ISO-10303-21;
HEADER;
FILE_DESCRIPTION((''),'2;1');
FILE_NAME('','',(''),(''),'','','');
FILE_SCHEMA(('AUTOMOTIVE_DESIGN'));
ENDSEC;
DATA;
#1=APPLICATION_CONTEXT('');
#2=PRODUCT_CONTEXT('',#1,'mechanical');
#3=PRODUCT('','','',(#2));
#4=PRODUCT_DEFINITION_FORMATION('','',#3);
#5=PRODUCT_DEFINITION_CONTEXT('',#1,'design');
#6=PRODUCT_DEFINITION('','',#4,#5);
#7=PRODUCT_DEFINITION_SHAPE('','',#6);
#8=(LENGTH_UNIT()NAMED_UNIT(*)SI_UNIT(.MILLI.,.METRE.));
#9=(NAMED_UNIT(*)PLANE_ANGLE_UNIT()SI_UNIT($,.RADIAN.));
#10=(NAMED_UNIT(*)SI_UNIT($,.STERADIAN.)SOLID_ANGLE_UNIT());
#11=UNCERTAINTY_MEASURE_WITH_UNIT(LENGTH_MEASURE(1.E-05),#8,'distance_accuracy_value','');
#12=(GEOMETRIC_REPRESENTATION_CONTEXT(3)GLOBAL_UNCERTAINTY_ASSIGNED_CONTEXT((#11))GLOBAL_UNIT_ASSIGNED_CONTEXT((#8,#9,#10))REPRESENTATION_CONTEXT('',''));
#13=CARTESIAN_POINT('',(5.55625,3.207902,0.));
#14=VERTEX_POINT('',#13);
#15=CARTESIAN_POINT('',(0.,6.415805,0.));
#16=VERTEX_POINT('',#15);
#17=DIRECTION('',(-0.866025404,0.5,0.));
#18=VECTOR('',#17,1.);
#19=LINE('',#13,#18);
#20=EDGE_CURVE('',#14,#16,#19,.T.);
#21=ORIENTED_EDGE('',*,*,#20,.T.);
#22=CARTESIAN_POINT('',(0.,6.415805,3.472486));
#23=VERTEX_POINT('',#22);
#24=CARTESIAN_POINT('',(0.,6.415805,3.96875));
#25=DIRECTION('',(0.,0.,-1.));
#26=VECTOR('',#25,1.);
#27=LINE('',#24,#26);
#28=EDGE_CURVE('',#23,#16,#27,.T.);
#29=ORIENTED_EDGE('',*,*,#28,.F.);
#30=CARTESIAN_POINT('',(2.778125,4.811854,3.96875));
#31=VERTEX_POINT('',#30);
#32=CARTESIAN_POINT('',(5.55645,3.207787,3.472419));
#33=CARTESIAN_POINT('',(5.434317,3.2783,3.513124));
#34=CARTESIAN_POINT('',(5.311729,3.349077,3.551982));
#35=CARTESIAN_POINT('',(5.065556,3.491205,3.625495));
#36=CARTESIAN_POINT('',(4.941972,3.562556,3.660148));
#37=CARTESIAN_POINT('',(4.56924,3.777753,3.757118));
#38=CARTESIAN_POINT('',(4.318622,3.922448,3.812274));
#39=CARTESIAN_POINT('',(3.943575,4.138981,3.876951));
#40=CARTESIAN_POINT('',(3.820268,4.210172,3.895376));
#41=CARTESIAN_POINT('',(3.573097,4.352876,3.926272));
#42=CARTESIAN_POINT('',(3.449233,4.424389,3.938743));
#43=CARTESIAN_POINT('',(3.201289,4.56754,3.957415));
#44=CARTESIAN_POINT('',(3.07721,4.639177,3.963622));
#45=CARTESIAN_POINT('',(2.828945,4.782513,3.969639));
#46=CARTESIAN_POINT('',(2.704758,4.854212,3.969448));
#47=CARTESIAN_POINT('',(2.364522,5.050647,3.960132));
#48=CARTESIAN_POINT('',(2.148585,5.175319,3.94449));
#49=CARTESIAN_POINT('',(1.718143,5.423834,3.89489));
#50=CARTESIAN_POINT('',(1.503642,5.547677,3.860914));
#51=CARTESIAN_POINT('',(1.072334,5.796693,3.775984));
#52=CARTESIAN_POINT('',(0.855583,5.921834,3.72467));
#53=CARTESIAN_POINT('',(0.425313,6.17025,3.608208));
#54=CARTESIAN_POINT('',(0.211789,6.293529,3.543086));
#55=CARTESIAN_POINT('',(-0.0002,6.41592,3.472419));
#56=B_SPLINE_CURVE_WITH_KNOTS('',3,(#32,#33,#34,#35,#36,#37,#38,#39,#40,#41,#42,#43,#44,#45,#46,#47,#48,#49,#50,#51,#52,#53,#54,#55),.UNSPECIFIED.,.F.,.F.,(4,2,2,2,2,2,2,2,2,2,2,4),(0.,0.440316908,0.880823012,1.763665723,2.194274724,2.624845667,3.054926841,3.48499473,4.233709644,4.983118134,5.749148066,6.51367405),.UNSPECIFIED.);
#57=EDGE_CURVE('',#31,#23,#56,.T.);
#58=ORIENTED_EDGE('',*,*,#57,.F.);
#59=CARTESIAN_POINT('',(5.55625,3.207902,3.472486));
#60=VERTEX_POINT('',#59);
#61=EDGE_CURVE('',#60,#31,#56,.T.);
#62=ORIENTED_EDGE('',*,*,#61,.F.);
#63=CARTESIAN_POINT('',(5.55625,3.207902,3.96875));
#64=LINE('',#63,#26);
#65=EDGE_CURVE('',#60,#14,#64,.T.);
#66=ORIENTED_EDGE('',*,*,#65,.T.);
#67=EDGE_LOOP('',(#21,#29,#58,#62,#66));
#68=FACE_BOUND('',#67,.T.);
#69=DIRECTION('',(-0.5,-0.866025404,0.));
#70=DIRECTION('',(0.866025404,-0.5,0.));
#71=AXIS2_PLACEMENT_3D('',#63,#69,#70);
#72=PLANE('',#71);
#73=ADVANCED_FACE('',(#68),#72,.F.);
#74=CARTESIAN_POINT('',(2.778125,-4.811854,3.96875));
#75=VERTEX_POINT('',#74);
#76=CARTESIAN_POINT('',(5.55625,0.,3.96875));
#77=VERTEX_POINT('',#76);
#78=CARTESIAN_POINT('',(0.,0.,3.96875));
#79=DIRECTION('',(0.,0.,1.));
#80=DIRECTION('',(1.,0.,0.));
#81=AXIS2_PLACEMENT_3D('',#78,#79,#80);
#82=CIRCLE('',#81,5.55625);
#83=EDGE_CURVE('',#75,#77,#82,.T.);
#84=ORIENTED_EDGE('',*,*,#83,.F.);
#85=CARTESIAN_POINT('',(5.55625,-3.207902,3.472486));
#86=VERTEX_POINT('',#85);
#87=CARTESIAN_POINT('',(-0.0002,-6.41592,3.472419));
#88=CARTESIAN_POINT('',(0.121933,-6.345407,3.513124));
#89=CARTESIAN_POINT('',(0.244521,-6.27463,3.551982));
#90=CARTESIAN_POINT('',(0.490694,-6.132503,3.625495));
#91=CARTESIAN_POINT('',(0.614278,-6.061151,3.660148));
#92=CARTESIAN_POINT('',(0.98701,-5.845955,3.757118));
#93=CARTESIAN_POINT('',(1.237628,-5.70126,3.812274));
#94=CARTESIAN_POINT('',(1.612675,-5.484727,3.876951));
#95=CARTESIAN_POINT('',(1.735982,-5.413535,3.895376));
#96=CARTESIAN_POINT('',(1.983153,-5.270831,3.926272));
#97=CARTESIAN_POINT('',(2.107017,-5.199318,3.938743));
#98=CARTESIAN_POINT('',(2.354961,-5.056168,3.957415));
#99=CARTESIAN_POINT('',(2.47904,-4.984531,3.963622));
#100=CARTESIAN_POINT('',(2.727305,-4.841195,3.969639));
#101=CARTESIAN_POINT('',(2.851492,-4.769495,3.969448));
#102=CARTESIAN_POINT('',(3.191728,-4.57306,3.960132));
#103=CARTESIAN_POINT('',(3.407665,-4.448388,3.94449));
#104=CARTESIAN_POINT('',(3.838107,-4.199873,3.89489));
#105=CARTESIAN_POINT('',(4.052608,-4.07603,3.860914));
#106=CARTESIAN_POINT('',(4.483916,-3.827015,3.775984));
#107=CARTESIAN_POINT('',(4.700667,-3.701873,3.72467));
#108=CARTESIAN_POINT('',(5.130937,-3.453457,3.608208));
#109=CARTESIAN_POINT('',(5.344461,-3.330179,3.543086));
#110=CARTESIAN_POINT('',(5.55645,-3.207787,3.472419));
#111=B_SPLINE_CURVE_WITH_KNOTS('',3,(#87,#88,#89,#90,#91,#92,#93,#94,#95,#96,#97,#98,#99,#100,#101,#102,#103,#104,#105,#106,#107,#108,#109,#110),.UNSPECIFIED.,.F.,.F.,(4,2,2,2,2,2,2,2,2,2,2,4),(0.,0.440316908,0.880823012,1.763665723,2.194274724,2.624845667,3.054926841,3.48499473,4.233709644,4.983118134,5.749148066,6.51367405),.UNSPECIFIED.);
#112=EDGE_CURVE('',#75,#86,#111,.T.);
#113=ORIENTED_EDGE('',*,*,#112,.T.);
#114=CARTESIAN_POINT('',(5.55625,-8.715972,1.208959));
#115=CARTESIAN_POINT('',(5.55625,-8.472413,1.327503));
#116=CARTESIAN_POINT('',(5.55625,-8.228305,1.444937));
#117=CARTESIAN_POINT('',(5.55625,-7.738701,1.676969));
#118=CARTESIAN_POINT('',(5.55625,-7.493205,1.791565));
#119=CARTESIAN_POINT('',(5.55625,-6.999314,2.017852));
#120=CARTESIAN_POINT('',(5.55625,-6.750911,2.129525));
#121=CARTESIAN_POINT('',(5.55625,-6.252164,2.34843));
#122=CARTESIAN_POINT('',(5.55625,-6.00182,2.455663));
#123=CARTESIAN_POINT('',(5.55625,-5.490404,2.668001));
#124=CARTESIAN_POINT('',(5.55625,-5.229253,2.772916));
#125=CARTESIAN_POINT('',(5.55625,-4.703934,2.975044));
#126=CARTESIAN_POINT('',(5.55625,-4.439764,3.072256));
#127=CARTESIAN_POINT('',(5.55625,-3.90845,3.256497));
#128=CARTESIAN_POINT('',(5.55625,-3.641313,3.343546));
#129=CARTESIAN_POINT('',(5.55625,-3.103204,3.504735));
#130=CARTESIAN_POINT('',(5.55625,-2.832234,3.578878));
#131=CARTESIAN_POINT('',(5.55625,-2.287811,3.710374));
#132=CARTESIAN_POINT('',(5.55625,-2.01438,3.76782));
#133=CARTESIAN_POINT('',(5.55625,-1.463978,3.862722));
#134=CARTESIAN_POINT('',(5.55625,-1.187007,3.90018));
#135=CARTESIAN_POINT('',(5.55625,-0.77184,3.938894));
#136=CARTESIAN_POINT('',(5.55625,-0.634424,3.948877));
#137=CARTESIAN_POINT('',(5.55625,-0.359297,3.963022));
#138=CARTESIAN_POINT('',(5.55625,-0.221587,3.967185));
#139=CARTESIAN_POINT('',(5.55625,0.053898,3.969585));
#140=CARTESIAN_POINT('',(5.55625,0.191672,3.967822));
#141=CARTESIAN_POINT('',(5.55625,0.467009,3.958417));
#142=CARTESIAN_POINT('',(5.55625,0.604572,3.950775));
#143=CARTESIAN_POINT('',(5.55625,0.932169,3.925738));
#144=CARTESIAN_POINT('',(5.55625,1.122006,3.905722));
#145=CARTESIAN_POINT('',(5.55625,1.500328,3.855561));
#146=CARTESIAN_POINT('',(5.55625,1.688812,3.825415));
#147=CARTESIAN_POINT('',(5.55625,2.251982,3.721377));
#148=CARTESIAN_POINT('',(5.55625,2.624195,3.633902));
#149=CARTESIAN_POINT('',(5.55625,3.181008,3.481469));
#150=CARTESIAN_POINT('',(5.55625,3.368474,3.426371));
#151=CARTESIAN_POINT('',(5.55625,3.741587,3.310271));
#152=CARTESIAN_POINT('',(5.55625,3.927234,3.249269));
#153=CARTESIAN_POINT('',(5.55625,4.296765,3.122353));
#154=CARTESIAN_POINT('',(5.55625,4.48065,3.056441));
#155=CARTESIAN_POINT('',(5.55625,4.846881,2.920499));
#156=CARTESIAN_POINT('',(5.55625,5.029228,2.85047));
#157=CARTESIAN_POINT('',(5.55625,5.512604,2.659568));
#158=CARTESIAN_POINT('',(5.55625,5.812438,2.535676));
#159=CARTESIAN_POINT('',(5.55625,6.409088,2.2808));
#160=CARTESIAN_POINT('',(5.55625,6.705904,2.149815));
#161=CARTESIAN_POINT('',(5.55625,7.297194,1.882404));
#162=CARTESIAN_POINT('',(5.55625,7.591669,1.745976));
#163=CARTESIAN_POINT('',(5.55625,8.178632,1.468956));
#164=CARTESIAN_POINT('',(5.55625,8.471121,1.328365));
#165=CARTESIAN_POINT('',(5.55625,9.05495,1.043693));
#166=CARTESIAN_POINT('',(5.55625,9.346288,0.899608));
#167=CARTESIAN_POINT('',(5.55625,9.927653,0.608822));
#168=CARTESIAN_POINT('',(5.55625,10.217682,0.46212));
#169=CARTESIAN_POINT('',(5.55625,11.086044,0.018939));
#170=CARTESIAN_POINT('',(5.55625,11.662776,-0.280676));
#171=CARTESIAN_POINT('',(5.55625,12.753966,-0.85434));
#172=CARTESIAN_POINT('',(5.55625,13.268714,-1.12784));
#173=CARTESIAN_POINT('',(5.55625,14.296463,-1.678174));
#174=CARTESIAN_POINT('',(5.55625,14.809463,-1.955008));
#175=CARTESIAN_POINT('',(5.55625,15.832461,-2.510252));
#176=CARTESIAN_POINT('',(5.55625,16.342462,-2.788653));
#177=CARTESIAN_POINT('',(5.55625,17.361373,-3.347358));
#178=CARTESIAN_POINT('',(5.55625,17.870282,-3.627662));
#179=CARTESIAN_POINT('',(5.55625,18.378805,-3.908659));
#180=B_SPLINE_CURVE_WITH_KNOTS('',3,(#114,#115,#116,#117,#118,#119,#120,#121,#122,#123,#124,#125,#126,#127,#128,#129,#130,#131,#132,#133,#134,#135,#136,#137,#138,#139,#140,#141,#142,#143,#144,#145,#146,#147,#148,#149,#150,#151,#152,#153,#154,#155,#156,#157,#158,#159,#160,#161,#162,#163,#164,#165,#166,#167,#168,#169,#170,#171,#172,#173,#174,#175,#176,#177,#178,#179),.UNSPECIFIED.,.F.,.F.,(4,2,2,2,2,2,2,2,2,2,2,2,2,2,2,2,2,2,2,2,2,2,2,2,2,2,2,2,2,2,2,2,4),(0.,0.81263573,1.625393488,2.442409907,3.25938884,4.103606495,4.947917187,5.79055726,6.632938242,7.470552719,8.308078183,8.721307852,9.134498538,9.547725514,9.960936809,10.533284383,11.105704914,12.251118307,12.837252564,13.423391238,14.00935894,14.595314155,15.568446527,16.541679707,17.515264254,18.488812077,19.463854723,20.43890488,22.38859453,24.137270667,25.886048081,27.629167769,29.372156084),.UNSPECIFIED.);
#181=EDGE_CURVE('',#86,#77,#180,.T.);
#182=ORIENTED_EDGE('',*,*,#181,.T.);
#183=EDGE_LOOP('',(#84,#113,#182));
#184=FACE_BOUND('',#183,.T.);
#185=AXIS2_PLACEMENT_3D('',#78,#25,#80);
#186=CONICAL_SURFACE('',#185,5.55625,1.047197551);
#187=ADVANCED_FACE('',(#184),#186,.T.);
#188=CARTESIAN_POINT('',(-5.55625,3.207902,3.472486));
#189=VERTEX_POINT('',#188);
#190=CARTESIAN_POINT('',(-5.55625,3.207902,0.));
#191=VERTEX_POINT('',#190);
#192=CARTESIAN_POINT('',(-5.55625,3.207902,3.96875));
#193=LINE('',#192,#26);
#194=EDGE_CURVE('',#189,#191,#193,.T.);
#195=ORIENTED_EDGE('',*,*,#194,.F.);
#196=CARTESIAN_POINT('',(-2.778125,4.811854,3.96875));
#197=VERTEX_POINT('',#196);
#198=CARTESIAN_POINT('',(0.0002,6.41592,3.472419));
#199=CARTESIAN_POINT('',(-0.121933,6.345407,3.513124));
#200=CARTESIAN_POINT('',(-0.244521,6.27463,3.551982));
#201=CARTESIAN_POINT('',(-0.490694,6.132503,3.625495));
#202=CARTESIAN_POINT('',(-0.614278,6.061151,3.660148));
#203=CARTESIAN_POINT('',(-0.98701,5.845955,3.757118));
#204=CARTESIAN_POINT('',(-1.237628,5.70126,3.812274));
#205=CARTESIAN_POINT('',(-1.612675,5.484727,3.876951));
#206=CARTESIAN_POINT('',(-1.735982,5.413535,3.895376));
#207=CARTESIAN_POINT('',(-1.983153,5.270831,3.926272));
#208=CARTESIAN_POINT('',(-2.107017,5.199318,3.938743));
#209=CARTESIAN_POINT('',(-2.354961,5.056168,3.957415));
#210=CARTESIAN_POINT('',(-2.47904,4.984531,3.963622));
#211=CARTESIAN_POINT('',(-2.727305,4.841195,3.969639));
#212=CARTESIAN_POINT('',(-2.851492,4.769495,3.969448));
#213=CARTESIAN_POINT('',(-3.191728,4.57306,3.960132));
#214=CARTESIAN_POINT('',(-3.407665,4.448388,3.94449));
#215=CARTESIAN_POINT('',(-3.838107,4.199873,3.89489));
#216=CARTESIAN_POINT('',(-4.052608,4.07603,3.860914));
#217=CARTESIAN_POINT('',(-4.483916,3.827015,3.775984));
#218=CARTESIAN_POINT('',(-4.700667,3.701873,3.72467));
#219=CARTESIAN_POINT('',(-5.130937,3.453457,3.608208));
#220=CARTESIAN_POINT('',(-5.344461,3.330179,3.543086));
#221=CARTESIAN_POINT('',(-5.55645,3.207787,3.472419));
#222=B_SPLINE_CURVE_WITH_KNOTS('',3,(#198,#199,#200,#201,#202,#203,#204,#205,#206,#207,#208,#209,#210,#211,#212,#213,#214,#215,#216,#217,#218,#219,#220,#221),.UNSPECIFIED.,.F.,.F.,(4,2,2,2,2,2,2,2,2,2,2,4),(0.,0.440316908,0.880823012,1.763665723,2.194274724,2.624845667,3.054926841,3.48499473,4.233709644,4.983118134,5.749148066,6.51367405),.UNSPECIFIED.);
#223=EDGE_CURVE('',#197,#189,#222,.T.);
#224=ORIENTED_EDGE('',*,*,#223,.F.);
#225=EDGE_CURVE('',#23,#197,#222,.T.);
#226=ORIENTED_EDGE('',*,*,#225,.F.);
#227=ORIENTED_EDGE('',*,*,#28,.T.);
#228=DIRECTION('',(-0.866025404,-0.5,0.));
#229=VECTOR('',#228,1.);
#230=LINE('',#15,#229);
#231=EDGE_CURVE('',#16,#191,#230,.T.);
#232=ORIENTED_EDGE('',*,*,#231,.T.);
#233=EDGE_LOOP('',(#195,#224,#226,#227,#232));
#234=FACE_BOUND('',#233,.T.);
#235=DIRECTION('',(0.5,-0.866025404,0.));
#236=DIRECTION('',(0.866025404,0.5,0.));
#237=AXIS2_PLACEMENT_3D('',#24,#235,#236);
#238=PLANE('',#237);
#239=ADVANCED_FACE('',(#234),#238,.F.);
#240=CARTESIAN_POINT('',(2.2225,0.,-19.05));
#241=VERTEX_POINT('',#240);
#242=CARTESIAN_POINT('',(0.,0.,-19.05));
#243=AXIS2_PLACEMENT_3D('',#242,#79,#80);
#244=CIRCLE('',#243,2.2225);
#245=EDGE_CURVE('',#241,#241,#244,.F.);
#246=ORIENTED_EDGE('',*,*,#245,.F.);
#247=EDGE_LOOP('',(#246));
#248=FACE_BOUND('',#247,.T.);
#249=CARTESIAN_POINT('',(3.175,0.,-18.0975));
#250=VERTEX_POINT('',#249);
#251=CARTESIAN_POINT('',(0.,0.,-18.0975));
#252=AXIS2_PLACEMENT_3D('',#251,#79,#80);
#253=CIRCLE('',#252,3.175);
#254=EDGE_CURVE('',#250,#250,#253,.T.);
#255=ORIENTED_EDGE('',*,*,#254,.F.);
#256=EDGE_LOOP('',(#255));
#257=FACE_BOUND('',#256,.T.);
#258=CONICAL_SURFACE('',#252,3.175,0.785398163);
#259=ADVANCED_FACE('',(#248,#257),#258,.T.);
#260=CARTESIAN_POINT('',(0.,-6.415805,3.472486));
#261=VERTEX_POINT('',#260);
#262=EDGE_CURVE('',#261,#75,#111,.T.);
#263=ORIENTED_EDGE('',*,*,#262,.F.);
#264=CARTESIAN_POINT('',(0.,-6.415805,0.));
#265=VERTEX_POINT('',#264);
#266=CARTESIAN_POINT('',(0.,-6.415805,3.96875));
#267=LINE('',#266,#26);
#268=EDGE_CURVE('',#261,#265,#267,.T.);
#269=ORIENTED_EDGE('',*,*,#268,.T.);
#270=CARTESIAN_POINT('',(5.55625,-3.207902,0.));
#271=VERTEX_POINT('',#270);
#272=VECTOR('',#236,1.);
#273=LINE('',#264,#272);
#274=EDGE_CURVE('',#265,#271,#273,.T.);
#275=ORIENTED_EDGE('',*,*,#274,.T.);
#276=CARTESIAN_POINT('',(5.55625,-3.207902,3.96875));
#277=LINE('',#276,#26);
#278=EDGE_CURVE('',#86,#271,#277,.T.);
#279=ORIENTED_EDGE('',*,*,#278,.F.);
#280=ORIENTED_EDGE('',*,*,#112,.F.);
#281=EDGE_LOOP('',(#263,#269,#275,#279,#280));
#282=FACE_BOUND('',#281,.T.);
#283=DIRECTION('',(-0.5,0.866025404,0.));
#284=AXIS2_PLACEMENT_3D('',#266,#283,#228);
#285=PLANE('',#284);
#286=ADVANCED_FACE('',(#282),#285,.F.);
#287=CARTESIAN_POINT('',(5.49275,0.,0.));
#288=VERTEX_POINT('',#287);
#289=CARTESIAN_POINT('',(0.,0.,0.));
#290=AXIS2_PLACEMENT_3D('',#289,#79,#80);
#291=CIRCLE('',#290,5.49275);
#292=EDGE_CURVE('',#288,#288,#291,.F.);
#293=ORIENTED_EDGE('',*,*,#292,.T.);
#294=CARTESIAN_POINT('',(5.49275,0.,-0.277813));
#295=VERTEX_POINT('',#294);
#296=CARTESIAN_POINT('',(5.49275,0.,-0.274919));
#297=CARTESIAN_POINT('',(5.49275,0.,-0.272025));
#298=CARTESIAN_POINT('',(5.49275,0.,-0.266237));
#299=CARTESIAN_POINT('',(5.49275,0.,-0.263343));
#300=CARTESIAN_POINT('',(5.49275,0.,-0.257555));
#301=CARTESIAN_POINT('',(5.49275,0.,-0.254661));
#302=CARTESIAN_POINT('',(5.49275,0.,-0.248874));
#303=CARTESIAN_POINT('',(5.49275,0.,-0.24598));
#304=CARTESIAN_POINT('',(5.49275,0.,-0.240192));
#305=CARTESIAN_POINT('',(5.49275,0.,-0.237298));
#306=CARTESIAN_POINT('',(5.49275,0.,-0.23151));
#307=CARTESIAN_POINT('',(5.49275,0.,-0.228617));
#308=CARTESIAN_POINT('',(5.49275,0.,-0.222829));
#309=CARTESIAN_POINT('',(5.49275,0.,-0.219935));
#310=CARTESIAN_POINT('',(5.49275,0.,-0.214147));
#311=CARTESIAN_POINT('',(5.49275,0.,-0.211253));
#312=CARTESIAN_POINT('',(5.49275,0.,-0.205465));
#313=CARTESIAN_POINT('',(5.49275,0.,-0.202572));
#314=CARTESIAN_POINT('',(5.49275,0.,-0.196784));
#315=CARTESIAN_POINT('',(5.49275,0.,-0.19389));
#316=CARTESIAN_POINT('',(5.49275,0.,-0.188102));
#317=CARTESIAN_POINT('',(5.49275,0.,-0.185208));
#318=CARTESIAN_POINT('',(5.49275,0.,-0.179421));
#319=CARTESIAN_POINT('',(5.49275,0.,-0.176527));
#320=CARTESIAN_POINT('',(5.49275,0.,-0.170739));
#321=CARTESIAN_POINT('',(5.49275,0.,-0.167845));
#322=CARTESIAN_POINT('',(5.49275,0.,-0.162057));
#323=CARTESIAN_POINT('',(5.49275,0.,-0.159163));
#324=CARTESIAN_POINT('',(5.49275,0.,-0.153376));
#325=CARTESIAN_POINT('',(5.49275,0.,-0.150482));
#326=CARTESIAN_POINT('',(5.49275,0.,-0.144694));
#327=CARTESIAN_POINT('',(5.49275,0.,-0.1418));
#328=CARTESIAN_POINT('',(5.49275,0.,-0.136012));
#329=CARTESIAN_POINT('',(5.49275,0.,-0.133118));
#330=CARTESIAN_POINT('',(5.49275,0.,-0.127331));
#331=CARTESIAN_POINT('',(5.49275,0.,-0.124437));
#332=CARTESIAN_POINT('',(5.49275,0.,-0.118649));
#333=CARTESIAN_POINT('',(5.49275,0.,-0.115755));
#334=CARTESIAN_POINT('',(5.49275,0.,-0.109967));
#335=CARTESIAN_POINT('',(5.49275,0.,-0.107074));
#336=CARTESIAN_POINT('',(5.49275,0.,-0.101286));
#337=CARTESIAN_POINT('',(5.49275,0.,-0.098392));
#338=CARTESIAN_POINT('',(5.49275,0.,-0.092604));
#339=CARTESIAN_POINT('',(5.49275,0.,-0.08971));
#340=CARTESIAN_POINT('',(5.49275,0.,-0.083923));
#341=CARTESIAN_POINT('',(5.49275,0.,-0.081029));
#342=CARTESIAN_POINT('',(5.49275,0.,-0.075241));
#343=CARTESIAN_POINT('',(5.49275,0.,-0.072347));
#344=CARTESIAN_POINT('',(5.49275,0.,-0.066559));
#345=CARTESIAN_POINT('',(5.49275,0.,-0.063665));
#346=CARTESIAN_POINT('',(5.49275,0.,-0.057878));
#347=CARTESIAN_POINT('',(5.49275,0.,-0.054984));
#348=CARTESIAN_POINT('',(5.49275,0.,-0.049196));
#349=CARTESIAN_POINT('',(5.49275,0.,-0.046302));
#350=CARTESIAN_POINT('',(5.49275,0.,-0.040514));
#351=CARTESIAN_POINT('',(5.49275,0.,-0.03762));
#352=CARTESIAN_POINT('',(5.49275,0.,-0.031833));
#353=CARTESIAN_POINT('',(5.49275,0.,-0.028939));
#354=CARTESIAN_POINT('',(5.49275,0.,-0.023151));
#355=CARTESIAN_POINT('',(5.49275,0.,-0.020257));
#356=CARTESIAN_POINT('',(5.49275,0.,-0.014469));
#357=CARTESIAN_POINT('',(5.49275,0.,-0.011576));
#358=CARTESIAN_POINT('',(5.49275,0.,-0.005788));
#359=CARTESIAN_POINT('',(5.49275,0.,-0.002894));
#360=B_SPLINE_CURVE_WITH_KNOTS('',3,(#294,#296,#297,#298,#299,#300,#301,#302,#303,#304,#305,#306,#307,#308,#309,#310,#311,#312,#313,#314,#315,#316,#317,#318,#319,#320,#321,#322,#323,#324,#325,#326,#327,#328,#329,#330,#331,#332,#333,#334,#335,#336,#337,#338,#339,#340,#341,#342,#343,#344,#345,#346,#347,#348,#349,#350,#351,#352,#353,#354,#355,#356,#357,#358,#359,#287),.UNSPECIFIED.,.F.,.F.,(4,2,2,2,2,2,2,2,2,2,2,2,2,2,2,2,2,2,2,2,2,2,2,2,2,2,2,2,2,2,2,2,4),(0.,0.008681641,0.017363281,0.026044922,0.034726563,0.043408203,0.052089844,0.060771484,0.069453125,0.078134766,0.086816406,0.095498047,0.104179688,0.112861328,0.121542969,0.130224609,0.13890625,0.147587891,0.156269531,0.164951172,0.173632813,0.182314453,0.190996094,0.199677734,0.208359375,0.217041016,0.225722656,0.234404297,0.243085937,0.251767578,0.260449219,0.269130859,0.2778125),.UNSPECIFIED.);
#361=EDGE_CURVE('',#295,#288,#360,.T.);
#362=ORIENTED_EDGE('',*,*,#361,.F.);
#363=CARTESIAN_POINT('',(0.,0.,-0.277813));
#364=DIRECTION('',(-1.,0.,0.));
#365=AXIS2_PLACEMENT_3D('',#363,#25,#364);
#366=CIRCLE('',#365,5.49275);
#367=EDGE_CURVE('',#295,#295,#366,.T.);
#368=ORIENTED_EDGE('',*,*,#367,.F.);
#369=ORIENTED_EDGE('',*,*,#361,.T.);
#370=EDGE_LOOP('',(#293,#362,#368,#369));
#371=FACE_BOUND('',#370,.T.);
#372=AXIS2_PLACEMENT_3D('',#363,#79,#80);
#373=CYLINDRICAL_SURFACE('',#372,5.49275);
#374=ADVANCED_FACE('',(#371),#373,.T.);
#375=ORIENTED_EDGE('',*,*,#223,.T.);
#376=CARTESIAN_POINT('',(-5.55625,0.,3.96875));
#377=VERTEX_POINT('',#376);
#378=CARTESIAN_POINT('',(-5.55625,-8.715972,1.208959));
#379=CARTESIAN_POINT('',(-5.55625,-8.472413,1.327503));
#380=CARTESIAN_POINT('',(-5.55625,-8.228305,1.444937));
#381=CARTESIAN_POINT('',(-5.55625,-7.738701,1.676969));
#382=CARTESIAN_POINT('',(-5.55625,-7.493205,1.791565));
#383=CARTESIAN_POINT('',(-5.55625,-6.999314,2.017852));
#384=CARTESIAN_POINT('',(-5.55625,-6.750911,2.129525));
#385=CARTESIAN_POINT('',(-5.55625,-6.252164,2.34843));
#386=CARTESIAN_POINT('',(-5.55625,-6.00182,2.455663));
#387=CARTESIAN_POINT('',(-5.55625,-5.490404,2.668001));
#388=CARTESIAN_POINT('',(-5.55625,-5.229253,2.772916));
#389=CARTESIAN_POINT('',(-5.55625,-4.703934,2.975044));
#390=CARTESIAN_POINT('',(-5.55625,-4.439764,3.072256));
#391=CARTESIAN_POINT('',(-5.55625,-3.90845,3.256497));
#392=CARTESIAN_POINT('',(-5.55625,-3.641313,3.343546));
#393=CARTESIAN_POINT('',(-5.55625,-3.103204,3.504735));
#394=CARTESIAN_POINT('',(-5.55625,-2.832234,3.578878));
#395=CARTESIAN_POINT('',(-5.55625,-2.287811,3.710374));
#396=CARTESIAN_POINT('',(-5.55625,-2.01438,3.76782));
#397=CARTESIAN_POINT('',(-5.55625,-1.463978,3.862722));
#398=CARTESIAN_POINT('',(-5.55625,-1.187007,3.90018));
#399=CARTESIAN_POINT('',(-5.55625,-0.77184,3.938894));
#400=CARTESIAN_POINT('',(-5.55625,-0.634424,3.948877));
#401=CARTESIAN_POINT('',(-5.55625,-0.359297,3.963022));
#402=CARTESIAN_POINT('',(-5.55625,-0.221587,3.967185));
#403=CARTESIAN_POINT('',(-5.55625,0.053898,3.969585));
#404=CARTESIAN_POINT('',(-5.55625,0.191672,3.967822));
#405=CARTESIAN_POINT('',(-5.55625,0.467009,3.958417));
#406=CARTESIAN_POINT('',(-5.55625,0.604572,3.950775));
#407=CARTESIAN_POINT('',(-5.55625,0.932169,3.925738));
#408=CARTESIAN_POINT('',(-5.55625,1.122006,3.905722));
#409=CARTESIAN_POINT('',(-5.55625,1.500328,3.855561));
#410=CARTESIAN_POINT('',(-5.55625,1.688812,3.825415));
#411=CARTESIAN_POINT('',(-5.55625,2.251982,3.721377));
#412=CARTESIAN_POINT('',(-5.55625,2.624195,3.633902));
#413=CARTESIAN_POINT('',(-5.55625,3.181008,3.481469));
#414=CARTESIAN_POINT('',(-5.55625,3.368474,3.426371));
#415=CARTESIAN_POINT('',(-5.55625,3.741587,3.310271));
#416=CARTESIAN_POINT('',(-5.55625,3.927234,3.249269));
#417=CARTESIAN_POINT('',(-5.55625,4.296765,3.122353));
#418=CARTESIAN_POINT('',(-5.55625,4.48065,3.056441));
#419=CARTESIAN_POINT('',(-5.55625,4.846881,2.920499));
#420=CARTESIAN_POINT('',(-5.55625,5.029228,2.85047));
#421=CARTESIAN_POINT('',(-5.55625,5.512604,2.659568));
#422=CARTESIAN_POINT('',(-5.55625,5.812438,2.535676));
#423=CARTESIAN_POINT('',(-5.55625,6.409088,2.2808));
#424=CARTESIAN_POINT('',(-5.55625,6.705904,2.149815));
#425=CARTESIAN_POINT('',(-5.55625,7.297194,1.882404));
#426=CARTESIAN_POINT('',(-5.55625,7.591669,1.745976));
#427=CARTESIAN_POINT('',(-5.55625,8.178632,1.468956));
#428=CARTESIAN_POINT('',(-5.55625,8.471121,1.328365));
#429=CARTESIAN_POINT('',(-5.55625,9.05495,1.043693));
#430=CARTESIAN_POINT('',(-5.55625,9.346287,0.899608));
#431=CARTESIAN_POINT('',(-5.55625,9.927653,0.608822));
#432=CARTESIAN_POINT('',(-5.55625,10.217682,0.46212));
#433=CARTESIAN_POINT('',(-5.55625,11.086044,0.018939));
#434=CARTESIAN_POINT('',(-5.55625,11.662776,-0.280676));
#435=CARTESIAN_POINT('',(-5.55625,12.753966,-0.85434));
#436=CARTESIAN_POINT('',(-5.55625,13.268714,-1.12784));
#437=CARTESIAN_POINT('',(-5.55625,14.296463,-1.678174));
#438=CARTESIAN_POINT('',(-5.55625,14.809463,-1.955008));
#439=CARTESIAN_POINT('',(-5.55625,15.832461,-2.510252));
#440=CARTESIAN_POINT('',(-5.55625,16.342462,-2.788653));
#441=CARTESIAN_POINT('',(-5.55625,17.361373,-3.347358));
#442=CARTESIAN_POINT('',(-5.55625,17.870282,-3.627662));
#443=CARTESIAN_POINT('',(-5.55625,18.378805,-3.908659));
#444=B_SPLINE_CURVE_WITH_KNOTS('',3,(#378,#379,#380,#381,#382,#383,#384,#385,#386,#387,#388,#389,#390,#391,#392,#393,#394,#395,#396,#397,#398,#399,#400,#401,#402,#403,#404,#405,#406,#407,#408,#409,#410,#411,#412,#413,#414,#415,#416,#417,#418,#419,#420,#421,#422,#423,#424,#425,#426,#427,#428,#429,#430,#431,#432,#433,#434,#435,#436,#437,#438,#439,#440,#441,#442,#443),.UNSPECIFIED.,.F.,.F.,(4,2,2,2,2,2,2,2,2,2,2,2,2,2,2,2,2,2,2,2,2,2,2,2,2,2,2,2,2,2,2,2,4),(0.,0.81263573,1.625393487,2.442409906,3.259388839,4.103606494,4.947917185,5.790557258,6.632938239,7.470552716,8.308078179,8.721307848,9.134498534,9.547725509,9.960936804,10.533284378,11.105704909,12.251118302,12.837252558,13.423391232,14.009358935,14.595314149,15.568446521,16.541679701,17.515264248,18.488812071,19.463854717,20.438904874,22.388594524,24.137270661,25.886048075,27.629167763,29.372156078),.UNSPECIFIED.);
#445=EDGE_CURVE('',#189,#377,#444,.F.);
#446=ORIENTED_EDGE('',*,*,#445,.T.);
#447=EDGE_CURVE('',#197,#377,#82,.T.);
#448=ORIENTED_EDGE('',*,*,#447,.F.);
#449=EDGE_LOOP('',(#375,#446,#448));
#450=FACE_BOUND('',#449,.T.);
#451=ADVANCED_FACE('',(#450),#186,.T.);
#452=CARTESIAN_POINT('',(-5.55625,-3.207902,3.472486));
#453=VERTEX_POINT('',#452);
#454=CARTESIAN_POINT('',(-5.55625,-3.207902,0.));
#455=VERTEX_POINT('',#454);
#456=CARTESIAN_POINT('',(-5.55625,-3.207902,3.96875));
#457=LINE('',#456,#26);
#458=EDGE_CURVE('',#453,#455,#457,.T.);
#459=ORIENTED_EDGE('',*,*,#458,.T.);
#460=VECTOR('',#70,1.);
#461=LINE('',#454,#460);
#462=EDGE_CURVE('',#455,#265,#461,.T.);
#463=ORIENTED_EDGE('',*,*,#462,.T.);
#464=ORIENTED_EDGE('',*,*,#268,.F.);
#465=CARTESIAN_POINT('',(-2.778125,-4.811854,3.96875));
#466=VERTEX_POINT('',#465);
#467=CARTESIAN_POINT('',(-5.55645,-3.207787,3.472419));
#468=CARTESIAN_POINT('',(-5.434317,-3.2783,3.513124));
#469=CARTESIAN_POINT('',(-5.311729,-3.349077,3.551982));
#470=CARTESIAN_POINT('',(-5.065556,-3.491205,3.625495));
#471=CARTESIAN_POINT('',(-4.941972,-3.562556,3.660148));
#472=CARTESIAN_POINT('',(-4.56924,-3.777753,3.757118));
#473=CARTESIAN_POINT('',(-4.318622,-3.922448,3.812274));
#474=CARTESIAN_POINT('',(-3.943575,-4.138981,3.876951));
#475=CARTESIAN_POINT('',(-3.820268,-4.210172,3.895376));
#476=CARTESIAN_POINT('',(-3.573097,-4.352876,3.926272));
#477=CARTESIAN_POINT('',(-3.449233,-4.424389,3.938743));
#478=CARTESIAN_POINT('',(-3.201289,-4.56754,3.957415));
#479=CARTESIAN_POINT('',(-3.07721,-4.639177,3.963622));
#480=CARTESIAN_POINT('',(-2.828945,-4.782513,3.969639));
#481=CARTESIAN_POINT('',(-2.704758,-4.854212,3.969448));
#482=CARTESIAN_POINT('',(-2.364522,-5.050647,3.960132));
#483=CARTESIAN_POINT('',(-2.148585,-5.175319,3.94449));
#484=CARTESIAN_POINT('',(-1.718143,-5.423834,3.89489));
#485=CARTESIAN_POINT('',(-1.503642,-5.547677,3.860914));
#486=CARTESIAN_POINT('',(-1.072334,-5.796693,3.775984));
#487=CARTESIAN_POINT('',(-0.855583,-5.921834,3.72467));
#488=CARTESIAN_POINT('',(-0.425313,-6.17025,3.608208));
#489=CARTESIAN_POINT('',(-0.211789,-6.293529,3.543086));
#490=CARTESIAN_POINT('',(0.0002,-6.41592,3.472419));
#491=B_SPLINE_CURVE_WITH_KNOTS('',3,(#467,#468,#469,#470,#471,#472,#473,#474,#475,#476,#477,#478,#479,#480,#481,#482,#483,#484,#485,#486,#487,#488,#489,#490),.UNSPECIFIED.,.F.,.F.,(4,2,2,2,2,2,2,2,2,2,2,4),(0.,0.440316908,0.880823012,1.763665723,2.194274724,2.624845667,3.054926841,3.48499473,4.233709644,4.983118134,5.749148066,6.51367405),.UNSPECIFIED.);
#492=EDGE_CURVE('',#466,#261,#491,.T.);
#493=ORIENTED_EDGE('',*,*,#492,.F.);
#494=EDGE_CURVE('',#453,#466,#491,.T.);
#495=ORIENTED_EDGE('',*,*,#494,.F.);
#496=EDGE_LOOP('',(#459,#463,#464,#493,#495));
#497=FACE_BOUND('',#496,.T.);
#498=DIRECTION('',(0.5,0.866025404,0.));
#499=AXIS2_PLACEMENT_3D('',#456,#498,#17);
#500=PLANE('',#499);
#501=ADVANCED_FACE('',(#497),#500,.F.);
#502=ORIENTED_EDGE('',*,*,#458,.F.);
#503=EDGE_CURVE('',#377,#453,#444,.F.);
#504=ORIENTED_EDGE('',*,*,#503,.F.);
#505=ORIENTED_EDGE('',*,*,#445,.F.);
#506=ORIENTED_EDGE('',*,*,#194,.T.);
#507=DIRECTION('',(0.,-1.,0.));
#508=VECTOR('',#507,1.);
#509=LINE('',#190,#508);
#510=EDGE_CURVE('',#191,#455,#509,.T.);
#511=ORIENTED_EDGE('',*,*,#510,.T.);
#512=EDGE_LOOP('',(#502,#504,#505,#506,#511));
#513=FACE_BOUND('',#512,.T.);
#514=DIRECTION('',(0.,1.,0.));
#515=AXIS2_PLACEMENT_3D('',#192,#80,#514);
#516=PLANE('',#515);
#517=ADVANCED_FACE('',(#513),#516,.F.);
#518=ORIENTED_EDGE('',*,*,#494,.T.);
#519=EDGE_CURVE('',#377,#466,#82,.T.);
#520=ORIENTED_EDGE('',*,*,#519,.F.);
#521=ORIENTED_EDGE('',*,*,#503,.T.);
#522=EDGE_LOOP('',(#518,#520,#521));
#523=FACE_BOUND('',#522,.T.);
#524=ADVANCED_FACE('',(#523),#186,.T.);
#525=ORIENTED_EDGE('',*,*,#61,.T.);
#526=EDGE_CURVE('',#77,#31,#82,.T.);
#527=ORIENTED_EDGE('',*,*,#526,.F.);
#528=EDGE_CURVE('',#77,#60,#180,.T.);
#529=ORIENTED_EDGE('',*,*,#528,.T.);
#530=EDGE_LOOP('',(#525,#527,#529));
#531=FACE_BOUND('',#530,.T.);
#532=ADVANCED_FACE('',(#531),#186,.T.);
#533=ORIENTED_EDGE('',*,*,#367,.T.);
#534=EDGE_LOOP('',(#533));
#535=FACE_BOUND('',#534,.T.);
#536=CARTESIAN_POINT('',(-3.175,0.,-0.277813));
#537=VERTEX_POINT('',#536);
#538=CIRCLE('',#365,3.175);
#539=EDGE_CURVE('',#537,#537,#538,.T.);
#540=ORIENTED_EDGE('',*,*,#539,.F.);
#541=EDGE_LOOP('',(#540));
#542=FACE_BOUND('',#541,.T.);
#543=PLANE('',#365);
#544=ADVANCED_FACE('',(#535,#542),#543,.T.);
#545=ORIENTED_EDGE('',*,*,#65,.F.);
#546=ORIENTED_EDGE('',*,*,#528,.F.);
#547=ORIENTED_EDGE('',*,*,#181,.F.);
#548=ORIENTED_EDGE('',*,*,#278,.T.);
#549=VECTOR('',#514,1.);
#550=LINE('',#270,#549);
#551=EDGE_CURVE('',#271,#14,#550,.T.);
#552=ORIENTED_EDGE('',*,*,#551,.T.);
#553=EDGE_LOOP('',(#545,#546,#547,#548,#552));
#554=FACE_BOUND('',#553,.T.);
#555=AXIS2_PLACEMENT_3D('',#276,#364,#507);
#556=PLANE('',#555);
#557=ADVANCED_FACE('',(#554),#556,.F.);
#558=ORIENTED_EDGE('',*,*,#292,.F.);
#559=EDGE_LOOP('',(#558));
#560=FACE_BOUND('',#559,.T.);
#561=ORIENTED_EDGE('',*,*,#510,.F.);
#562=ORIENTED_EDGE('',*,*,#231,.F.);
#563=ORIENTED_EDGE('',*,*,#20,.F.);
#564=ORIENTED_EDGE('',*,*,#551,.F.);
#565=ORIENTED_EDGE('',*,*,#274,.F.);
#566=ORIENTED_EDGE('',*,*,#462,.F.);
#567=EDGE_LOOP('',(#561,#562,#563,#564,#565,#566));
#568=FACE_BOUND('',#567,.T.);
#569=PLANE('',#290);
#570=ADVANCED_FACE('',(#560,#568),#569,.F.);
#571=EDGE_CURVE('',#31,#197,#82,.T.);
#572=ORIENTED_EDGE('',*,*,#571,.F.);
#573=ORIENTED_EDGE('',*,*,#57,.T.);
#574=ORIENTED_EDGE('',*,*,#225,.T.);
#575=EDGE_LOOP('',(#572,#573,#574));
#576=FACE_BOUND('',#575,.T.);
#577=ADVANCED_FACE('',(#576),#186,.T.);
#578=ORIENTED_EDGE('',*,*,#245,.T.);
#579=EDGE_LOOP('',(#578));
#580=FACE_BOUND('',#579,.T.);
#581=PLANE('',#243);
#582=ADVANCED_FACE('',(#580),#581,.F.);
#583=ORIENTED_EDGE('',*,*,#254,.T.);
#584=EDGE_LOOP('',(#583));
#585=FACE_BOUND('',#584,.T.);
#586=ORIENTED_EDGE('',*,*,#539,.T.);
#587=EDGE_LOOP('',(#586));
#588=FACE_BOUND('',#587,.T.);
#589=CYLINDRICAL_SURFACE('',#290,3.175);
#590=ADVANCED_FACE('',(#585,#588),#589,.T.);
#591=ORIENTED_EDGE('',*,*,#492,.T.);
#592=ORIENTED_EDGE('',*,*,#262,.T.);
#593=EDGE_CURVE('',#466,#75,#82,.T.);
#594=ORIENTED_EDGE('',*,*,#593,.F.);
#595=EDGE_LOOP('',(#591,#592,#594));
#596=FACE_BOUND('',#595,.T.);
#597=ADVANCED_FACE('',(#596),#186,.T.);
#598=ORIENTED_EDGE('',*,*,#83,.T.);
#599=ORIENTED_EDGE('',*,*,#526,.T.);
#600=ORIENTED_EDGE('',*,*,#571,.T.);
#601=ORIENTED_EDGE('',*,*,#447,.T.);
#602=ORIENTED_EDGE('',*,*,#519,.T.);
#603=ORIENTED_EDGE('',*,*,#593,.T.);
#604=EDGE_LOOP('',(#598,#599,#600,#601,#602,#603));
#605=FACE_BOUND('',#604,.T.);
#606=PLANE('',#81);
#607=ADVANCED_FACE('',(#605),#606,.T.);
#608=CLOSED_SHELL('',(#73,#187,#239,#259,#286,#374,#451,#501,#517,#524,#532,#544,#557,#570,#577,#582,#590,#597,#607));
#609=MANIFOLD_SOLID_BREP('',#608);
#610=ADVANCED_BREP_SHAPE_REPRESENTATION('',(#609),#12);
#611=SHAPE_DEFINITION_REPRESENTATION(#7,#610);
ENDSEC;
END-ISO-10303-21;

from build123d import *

# Parameters (mm, degrees)
SKETCH2_W           = 19.05
SKETCH2_H           = 3.175
BOSS_EXTRUDE1_DEPTH = 3.96875
SKETCH7_R           = 5.49275
BOSS_EXTRUDE2_DEPTH = 0.2778125
CHAMFER1_SIZE       = 0.9525
SKETCH4_OUTSIDE_W   = 107.284
SKETCH4_OUTSIDE_H   = 109.004
SKETCH4_OUTSIDE_R   = 5.55625
CUT_EXTRUDE1_DEPTH  = 25.533595695
CUT_EXTRUDE1_DRAFT  = -60


with BuildPart() as part:
    # Sketch2 → Revolve1 (revolve)
    with BuildSketch(Plane(origin=(0, 0, 0), x_dir=(0, 0, -1), z_dir=(1, 0, 0)), mode=Mode.PRIVATE) as revolve1_sk:
        with Locations((9.525, 1.5875)):
            Rectangle(SKETCH2_W, SKETCH2_H)
    revolve(revolve1_sk.sketch.rotate(Axis((0, 0, 0), (0, 0, -1)), 90), axis=Axis((0, 0, 0), (0, 0, -1)))

    # Sketch3 → Boss-Extrude1 (add)
    with BuildSketch(Plane.XY):
        Polygon((0, 6.415804866), (-5.55625, 3.207902433), (-5.55625, -3.207902433), (0, -6.415804866), (5.55625, -3.207902433), (5.55625, 3.207902433), align=None)
    extrude(amount=BOSS_EXTRUDE1_DEPTH)

    # Sketch7 → Boss-Extrude2 (add)
    with BuildSketch(Plane(origin=(0, 0, 0), x_dir=(-1, 0, 0), z_dir=(0, 0, -1))):
        with Locations(Location((0, 0, 0), (0, 0, 180))):
            Circle(SKETCH7_R)
    extrude(amount=BOSS_EXTRUDE2_DEPTH)

    # Chamfer1
    chamfer1_edges = [part.edges().sort_by_distance(p)[0] for p in [
        (-3.175, 0, -19.05),
    ]]
    chamfer(chamfer1_edges, length=CHAMFER1_SIZE)


with BuildPart() as cut_extrude1_tool:
    # Sketch4 outside → Cut-Extrude1 (with draft: the straight prism first)
    with BuildSketch(Plane.XY.offset(3.96875)):
        Rectangle(SKETCH4_OUTSIDE_W, SKETCH4_OUTSIDE_H)
        Circle(SKETCH4_OUTSIDE_R, mode=Mode.SUBTRACT)
    extrude(amount=-CUT_EXTRUDE1_DEPTH)
    # Cut-Extrude1: the draft: its side faces are tilted about the plane it starts from
    cut_extrude1_sides = [cut_extrude1_tool.faces().sort_by_distance(p)[0] for p in [
        (0, -54.502, -8.798047847),
        (53.642, 0, -8.798047847),
        (0, 54.502, -8.798047847),
        (-53.642, 0, -8.798047847),
        (-5.55625, 0, -8.798047847),
    ]]
    draft(cut_extrude1_sides, Plane.XY.offset(3.96875), CUT_EXTRUDE1_DRAFT)


with BuildPart() as part_1:
    add(part.part)

    # Cut-Extrude1: cut by cut_extrude1_tool
    add(cut_extrude1_tool.part, mode=Mode.SUBTRACT)


solid = part_1.part
